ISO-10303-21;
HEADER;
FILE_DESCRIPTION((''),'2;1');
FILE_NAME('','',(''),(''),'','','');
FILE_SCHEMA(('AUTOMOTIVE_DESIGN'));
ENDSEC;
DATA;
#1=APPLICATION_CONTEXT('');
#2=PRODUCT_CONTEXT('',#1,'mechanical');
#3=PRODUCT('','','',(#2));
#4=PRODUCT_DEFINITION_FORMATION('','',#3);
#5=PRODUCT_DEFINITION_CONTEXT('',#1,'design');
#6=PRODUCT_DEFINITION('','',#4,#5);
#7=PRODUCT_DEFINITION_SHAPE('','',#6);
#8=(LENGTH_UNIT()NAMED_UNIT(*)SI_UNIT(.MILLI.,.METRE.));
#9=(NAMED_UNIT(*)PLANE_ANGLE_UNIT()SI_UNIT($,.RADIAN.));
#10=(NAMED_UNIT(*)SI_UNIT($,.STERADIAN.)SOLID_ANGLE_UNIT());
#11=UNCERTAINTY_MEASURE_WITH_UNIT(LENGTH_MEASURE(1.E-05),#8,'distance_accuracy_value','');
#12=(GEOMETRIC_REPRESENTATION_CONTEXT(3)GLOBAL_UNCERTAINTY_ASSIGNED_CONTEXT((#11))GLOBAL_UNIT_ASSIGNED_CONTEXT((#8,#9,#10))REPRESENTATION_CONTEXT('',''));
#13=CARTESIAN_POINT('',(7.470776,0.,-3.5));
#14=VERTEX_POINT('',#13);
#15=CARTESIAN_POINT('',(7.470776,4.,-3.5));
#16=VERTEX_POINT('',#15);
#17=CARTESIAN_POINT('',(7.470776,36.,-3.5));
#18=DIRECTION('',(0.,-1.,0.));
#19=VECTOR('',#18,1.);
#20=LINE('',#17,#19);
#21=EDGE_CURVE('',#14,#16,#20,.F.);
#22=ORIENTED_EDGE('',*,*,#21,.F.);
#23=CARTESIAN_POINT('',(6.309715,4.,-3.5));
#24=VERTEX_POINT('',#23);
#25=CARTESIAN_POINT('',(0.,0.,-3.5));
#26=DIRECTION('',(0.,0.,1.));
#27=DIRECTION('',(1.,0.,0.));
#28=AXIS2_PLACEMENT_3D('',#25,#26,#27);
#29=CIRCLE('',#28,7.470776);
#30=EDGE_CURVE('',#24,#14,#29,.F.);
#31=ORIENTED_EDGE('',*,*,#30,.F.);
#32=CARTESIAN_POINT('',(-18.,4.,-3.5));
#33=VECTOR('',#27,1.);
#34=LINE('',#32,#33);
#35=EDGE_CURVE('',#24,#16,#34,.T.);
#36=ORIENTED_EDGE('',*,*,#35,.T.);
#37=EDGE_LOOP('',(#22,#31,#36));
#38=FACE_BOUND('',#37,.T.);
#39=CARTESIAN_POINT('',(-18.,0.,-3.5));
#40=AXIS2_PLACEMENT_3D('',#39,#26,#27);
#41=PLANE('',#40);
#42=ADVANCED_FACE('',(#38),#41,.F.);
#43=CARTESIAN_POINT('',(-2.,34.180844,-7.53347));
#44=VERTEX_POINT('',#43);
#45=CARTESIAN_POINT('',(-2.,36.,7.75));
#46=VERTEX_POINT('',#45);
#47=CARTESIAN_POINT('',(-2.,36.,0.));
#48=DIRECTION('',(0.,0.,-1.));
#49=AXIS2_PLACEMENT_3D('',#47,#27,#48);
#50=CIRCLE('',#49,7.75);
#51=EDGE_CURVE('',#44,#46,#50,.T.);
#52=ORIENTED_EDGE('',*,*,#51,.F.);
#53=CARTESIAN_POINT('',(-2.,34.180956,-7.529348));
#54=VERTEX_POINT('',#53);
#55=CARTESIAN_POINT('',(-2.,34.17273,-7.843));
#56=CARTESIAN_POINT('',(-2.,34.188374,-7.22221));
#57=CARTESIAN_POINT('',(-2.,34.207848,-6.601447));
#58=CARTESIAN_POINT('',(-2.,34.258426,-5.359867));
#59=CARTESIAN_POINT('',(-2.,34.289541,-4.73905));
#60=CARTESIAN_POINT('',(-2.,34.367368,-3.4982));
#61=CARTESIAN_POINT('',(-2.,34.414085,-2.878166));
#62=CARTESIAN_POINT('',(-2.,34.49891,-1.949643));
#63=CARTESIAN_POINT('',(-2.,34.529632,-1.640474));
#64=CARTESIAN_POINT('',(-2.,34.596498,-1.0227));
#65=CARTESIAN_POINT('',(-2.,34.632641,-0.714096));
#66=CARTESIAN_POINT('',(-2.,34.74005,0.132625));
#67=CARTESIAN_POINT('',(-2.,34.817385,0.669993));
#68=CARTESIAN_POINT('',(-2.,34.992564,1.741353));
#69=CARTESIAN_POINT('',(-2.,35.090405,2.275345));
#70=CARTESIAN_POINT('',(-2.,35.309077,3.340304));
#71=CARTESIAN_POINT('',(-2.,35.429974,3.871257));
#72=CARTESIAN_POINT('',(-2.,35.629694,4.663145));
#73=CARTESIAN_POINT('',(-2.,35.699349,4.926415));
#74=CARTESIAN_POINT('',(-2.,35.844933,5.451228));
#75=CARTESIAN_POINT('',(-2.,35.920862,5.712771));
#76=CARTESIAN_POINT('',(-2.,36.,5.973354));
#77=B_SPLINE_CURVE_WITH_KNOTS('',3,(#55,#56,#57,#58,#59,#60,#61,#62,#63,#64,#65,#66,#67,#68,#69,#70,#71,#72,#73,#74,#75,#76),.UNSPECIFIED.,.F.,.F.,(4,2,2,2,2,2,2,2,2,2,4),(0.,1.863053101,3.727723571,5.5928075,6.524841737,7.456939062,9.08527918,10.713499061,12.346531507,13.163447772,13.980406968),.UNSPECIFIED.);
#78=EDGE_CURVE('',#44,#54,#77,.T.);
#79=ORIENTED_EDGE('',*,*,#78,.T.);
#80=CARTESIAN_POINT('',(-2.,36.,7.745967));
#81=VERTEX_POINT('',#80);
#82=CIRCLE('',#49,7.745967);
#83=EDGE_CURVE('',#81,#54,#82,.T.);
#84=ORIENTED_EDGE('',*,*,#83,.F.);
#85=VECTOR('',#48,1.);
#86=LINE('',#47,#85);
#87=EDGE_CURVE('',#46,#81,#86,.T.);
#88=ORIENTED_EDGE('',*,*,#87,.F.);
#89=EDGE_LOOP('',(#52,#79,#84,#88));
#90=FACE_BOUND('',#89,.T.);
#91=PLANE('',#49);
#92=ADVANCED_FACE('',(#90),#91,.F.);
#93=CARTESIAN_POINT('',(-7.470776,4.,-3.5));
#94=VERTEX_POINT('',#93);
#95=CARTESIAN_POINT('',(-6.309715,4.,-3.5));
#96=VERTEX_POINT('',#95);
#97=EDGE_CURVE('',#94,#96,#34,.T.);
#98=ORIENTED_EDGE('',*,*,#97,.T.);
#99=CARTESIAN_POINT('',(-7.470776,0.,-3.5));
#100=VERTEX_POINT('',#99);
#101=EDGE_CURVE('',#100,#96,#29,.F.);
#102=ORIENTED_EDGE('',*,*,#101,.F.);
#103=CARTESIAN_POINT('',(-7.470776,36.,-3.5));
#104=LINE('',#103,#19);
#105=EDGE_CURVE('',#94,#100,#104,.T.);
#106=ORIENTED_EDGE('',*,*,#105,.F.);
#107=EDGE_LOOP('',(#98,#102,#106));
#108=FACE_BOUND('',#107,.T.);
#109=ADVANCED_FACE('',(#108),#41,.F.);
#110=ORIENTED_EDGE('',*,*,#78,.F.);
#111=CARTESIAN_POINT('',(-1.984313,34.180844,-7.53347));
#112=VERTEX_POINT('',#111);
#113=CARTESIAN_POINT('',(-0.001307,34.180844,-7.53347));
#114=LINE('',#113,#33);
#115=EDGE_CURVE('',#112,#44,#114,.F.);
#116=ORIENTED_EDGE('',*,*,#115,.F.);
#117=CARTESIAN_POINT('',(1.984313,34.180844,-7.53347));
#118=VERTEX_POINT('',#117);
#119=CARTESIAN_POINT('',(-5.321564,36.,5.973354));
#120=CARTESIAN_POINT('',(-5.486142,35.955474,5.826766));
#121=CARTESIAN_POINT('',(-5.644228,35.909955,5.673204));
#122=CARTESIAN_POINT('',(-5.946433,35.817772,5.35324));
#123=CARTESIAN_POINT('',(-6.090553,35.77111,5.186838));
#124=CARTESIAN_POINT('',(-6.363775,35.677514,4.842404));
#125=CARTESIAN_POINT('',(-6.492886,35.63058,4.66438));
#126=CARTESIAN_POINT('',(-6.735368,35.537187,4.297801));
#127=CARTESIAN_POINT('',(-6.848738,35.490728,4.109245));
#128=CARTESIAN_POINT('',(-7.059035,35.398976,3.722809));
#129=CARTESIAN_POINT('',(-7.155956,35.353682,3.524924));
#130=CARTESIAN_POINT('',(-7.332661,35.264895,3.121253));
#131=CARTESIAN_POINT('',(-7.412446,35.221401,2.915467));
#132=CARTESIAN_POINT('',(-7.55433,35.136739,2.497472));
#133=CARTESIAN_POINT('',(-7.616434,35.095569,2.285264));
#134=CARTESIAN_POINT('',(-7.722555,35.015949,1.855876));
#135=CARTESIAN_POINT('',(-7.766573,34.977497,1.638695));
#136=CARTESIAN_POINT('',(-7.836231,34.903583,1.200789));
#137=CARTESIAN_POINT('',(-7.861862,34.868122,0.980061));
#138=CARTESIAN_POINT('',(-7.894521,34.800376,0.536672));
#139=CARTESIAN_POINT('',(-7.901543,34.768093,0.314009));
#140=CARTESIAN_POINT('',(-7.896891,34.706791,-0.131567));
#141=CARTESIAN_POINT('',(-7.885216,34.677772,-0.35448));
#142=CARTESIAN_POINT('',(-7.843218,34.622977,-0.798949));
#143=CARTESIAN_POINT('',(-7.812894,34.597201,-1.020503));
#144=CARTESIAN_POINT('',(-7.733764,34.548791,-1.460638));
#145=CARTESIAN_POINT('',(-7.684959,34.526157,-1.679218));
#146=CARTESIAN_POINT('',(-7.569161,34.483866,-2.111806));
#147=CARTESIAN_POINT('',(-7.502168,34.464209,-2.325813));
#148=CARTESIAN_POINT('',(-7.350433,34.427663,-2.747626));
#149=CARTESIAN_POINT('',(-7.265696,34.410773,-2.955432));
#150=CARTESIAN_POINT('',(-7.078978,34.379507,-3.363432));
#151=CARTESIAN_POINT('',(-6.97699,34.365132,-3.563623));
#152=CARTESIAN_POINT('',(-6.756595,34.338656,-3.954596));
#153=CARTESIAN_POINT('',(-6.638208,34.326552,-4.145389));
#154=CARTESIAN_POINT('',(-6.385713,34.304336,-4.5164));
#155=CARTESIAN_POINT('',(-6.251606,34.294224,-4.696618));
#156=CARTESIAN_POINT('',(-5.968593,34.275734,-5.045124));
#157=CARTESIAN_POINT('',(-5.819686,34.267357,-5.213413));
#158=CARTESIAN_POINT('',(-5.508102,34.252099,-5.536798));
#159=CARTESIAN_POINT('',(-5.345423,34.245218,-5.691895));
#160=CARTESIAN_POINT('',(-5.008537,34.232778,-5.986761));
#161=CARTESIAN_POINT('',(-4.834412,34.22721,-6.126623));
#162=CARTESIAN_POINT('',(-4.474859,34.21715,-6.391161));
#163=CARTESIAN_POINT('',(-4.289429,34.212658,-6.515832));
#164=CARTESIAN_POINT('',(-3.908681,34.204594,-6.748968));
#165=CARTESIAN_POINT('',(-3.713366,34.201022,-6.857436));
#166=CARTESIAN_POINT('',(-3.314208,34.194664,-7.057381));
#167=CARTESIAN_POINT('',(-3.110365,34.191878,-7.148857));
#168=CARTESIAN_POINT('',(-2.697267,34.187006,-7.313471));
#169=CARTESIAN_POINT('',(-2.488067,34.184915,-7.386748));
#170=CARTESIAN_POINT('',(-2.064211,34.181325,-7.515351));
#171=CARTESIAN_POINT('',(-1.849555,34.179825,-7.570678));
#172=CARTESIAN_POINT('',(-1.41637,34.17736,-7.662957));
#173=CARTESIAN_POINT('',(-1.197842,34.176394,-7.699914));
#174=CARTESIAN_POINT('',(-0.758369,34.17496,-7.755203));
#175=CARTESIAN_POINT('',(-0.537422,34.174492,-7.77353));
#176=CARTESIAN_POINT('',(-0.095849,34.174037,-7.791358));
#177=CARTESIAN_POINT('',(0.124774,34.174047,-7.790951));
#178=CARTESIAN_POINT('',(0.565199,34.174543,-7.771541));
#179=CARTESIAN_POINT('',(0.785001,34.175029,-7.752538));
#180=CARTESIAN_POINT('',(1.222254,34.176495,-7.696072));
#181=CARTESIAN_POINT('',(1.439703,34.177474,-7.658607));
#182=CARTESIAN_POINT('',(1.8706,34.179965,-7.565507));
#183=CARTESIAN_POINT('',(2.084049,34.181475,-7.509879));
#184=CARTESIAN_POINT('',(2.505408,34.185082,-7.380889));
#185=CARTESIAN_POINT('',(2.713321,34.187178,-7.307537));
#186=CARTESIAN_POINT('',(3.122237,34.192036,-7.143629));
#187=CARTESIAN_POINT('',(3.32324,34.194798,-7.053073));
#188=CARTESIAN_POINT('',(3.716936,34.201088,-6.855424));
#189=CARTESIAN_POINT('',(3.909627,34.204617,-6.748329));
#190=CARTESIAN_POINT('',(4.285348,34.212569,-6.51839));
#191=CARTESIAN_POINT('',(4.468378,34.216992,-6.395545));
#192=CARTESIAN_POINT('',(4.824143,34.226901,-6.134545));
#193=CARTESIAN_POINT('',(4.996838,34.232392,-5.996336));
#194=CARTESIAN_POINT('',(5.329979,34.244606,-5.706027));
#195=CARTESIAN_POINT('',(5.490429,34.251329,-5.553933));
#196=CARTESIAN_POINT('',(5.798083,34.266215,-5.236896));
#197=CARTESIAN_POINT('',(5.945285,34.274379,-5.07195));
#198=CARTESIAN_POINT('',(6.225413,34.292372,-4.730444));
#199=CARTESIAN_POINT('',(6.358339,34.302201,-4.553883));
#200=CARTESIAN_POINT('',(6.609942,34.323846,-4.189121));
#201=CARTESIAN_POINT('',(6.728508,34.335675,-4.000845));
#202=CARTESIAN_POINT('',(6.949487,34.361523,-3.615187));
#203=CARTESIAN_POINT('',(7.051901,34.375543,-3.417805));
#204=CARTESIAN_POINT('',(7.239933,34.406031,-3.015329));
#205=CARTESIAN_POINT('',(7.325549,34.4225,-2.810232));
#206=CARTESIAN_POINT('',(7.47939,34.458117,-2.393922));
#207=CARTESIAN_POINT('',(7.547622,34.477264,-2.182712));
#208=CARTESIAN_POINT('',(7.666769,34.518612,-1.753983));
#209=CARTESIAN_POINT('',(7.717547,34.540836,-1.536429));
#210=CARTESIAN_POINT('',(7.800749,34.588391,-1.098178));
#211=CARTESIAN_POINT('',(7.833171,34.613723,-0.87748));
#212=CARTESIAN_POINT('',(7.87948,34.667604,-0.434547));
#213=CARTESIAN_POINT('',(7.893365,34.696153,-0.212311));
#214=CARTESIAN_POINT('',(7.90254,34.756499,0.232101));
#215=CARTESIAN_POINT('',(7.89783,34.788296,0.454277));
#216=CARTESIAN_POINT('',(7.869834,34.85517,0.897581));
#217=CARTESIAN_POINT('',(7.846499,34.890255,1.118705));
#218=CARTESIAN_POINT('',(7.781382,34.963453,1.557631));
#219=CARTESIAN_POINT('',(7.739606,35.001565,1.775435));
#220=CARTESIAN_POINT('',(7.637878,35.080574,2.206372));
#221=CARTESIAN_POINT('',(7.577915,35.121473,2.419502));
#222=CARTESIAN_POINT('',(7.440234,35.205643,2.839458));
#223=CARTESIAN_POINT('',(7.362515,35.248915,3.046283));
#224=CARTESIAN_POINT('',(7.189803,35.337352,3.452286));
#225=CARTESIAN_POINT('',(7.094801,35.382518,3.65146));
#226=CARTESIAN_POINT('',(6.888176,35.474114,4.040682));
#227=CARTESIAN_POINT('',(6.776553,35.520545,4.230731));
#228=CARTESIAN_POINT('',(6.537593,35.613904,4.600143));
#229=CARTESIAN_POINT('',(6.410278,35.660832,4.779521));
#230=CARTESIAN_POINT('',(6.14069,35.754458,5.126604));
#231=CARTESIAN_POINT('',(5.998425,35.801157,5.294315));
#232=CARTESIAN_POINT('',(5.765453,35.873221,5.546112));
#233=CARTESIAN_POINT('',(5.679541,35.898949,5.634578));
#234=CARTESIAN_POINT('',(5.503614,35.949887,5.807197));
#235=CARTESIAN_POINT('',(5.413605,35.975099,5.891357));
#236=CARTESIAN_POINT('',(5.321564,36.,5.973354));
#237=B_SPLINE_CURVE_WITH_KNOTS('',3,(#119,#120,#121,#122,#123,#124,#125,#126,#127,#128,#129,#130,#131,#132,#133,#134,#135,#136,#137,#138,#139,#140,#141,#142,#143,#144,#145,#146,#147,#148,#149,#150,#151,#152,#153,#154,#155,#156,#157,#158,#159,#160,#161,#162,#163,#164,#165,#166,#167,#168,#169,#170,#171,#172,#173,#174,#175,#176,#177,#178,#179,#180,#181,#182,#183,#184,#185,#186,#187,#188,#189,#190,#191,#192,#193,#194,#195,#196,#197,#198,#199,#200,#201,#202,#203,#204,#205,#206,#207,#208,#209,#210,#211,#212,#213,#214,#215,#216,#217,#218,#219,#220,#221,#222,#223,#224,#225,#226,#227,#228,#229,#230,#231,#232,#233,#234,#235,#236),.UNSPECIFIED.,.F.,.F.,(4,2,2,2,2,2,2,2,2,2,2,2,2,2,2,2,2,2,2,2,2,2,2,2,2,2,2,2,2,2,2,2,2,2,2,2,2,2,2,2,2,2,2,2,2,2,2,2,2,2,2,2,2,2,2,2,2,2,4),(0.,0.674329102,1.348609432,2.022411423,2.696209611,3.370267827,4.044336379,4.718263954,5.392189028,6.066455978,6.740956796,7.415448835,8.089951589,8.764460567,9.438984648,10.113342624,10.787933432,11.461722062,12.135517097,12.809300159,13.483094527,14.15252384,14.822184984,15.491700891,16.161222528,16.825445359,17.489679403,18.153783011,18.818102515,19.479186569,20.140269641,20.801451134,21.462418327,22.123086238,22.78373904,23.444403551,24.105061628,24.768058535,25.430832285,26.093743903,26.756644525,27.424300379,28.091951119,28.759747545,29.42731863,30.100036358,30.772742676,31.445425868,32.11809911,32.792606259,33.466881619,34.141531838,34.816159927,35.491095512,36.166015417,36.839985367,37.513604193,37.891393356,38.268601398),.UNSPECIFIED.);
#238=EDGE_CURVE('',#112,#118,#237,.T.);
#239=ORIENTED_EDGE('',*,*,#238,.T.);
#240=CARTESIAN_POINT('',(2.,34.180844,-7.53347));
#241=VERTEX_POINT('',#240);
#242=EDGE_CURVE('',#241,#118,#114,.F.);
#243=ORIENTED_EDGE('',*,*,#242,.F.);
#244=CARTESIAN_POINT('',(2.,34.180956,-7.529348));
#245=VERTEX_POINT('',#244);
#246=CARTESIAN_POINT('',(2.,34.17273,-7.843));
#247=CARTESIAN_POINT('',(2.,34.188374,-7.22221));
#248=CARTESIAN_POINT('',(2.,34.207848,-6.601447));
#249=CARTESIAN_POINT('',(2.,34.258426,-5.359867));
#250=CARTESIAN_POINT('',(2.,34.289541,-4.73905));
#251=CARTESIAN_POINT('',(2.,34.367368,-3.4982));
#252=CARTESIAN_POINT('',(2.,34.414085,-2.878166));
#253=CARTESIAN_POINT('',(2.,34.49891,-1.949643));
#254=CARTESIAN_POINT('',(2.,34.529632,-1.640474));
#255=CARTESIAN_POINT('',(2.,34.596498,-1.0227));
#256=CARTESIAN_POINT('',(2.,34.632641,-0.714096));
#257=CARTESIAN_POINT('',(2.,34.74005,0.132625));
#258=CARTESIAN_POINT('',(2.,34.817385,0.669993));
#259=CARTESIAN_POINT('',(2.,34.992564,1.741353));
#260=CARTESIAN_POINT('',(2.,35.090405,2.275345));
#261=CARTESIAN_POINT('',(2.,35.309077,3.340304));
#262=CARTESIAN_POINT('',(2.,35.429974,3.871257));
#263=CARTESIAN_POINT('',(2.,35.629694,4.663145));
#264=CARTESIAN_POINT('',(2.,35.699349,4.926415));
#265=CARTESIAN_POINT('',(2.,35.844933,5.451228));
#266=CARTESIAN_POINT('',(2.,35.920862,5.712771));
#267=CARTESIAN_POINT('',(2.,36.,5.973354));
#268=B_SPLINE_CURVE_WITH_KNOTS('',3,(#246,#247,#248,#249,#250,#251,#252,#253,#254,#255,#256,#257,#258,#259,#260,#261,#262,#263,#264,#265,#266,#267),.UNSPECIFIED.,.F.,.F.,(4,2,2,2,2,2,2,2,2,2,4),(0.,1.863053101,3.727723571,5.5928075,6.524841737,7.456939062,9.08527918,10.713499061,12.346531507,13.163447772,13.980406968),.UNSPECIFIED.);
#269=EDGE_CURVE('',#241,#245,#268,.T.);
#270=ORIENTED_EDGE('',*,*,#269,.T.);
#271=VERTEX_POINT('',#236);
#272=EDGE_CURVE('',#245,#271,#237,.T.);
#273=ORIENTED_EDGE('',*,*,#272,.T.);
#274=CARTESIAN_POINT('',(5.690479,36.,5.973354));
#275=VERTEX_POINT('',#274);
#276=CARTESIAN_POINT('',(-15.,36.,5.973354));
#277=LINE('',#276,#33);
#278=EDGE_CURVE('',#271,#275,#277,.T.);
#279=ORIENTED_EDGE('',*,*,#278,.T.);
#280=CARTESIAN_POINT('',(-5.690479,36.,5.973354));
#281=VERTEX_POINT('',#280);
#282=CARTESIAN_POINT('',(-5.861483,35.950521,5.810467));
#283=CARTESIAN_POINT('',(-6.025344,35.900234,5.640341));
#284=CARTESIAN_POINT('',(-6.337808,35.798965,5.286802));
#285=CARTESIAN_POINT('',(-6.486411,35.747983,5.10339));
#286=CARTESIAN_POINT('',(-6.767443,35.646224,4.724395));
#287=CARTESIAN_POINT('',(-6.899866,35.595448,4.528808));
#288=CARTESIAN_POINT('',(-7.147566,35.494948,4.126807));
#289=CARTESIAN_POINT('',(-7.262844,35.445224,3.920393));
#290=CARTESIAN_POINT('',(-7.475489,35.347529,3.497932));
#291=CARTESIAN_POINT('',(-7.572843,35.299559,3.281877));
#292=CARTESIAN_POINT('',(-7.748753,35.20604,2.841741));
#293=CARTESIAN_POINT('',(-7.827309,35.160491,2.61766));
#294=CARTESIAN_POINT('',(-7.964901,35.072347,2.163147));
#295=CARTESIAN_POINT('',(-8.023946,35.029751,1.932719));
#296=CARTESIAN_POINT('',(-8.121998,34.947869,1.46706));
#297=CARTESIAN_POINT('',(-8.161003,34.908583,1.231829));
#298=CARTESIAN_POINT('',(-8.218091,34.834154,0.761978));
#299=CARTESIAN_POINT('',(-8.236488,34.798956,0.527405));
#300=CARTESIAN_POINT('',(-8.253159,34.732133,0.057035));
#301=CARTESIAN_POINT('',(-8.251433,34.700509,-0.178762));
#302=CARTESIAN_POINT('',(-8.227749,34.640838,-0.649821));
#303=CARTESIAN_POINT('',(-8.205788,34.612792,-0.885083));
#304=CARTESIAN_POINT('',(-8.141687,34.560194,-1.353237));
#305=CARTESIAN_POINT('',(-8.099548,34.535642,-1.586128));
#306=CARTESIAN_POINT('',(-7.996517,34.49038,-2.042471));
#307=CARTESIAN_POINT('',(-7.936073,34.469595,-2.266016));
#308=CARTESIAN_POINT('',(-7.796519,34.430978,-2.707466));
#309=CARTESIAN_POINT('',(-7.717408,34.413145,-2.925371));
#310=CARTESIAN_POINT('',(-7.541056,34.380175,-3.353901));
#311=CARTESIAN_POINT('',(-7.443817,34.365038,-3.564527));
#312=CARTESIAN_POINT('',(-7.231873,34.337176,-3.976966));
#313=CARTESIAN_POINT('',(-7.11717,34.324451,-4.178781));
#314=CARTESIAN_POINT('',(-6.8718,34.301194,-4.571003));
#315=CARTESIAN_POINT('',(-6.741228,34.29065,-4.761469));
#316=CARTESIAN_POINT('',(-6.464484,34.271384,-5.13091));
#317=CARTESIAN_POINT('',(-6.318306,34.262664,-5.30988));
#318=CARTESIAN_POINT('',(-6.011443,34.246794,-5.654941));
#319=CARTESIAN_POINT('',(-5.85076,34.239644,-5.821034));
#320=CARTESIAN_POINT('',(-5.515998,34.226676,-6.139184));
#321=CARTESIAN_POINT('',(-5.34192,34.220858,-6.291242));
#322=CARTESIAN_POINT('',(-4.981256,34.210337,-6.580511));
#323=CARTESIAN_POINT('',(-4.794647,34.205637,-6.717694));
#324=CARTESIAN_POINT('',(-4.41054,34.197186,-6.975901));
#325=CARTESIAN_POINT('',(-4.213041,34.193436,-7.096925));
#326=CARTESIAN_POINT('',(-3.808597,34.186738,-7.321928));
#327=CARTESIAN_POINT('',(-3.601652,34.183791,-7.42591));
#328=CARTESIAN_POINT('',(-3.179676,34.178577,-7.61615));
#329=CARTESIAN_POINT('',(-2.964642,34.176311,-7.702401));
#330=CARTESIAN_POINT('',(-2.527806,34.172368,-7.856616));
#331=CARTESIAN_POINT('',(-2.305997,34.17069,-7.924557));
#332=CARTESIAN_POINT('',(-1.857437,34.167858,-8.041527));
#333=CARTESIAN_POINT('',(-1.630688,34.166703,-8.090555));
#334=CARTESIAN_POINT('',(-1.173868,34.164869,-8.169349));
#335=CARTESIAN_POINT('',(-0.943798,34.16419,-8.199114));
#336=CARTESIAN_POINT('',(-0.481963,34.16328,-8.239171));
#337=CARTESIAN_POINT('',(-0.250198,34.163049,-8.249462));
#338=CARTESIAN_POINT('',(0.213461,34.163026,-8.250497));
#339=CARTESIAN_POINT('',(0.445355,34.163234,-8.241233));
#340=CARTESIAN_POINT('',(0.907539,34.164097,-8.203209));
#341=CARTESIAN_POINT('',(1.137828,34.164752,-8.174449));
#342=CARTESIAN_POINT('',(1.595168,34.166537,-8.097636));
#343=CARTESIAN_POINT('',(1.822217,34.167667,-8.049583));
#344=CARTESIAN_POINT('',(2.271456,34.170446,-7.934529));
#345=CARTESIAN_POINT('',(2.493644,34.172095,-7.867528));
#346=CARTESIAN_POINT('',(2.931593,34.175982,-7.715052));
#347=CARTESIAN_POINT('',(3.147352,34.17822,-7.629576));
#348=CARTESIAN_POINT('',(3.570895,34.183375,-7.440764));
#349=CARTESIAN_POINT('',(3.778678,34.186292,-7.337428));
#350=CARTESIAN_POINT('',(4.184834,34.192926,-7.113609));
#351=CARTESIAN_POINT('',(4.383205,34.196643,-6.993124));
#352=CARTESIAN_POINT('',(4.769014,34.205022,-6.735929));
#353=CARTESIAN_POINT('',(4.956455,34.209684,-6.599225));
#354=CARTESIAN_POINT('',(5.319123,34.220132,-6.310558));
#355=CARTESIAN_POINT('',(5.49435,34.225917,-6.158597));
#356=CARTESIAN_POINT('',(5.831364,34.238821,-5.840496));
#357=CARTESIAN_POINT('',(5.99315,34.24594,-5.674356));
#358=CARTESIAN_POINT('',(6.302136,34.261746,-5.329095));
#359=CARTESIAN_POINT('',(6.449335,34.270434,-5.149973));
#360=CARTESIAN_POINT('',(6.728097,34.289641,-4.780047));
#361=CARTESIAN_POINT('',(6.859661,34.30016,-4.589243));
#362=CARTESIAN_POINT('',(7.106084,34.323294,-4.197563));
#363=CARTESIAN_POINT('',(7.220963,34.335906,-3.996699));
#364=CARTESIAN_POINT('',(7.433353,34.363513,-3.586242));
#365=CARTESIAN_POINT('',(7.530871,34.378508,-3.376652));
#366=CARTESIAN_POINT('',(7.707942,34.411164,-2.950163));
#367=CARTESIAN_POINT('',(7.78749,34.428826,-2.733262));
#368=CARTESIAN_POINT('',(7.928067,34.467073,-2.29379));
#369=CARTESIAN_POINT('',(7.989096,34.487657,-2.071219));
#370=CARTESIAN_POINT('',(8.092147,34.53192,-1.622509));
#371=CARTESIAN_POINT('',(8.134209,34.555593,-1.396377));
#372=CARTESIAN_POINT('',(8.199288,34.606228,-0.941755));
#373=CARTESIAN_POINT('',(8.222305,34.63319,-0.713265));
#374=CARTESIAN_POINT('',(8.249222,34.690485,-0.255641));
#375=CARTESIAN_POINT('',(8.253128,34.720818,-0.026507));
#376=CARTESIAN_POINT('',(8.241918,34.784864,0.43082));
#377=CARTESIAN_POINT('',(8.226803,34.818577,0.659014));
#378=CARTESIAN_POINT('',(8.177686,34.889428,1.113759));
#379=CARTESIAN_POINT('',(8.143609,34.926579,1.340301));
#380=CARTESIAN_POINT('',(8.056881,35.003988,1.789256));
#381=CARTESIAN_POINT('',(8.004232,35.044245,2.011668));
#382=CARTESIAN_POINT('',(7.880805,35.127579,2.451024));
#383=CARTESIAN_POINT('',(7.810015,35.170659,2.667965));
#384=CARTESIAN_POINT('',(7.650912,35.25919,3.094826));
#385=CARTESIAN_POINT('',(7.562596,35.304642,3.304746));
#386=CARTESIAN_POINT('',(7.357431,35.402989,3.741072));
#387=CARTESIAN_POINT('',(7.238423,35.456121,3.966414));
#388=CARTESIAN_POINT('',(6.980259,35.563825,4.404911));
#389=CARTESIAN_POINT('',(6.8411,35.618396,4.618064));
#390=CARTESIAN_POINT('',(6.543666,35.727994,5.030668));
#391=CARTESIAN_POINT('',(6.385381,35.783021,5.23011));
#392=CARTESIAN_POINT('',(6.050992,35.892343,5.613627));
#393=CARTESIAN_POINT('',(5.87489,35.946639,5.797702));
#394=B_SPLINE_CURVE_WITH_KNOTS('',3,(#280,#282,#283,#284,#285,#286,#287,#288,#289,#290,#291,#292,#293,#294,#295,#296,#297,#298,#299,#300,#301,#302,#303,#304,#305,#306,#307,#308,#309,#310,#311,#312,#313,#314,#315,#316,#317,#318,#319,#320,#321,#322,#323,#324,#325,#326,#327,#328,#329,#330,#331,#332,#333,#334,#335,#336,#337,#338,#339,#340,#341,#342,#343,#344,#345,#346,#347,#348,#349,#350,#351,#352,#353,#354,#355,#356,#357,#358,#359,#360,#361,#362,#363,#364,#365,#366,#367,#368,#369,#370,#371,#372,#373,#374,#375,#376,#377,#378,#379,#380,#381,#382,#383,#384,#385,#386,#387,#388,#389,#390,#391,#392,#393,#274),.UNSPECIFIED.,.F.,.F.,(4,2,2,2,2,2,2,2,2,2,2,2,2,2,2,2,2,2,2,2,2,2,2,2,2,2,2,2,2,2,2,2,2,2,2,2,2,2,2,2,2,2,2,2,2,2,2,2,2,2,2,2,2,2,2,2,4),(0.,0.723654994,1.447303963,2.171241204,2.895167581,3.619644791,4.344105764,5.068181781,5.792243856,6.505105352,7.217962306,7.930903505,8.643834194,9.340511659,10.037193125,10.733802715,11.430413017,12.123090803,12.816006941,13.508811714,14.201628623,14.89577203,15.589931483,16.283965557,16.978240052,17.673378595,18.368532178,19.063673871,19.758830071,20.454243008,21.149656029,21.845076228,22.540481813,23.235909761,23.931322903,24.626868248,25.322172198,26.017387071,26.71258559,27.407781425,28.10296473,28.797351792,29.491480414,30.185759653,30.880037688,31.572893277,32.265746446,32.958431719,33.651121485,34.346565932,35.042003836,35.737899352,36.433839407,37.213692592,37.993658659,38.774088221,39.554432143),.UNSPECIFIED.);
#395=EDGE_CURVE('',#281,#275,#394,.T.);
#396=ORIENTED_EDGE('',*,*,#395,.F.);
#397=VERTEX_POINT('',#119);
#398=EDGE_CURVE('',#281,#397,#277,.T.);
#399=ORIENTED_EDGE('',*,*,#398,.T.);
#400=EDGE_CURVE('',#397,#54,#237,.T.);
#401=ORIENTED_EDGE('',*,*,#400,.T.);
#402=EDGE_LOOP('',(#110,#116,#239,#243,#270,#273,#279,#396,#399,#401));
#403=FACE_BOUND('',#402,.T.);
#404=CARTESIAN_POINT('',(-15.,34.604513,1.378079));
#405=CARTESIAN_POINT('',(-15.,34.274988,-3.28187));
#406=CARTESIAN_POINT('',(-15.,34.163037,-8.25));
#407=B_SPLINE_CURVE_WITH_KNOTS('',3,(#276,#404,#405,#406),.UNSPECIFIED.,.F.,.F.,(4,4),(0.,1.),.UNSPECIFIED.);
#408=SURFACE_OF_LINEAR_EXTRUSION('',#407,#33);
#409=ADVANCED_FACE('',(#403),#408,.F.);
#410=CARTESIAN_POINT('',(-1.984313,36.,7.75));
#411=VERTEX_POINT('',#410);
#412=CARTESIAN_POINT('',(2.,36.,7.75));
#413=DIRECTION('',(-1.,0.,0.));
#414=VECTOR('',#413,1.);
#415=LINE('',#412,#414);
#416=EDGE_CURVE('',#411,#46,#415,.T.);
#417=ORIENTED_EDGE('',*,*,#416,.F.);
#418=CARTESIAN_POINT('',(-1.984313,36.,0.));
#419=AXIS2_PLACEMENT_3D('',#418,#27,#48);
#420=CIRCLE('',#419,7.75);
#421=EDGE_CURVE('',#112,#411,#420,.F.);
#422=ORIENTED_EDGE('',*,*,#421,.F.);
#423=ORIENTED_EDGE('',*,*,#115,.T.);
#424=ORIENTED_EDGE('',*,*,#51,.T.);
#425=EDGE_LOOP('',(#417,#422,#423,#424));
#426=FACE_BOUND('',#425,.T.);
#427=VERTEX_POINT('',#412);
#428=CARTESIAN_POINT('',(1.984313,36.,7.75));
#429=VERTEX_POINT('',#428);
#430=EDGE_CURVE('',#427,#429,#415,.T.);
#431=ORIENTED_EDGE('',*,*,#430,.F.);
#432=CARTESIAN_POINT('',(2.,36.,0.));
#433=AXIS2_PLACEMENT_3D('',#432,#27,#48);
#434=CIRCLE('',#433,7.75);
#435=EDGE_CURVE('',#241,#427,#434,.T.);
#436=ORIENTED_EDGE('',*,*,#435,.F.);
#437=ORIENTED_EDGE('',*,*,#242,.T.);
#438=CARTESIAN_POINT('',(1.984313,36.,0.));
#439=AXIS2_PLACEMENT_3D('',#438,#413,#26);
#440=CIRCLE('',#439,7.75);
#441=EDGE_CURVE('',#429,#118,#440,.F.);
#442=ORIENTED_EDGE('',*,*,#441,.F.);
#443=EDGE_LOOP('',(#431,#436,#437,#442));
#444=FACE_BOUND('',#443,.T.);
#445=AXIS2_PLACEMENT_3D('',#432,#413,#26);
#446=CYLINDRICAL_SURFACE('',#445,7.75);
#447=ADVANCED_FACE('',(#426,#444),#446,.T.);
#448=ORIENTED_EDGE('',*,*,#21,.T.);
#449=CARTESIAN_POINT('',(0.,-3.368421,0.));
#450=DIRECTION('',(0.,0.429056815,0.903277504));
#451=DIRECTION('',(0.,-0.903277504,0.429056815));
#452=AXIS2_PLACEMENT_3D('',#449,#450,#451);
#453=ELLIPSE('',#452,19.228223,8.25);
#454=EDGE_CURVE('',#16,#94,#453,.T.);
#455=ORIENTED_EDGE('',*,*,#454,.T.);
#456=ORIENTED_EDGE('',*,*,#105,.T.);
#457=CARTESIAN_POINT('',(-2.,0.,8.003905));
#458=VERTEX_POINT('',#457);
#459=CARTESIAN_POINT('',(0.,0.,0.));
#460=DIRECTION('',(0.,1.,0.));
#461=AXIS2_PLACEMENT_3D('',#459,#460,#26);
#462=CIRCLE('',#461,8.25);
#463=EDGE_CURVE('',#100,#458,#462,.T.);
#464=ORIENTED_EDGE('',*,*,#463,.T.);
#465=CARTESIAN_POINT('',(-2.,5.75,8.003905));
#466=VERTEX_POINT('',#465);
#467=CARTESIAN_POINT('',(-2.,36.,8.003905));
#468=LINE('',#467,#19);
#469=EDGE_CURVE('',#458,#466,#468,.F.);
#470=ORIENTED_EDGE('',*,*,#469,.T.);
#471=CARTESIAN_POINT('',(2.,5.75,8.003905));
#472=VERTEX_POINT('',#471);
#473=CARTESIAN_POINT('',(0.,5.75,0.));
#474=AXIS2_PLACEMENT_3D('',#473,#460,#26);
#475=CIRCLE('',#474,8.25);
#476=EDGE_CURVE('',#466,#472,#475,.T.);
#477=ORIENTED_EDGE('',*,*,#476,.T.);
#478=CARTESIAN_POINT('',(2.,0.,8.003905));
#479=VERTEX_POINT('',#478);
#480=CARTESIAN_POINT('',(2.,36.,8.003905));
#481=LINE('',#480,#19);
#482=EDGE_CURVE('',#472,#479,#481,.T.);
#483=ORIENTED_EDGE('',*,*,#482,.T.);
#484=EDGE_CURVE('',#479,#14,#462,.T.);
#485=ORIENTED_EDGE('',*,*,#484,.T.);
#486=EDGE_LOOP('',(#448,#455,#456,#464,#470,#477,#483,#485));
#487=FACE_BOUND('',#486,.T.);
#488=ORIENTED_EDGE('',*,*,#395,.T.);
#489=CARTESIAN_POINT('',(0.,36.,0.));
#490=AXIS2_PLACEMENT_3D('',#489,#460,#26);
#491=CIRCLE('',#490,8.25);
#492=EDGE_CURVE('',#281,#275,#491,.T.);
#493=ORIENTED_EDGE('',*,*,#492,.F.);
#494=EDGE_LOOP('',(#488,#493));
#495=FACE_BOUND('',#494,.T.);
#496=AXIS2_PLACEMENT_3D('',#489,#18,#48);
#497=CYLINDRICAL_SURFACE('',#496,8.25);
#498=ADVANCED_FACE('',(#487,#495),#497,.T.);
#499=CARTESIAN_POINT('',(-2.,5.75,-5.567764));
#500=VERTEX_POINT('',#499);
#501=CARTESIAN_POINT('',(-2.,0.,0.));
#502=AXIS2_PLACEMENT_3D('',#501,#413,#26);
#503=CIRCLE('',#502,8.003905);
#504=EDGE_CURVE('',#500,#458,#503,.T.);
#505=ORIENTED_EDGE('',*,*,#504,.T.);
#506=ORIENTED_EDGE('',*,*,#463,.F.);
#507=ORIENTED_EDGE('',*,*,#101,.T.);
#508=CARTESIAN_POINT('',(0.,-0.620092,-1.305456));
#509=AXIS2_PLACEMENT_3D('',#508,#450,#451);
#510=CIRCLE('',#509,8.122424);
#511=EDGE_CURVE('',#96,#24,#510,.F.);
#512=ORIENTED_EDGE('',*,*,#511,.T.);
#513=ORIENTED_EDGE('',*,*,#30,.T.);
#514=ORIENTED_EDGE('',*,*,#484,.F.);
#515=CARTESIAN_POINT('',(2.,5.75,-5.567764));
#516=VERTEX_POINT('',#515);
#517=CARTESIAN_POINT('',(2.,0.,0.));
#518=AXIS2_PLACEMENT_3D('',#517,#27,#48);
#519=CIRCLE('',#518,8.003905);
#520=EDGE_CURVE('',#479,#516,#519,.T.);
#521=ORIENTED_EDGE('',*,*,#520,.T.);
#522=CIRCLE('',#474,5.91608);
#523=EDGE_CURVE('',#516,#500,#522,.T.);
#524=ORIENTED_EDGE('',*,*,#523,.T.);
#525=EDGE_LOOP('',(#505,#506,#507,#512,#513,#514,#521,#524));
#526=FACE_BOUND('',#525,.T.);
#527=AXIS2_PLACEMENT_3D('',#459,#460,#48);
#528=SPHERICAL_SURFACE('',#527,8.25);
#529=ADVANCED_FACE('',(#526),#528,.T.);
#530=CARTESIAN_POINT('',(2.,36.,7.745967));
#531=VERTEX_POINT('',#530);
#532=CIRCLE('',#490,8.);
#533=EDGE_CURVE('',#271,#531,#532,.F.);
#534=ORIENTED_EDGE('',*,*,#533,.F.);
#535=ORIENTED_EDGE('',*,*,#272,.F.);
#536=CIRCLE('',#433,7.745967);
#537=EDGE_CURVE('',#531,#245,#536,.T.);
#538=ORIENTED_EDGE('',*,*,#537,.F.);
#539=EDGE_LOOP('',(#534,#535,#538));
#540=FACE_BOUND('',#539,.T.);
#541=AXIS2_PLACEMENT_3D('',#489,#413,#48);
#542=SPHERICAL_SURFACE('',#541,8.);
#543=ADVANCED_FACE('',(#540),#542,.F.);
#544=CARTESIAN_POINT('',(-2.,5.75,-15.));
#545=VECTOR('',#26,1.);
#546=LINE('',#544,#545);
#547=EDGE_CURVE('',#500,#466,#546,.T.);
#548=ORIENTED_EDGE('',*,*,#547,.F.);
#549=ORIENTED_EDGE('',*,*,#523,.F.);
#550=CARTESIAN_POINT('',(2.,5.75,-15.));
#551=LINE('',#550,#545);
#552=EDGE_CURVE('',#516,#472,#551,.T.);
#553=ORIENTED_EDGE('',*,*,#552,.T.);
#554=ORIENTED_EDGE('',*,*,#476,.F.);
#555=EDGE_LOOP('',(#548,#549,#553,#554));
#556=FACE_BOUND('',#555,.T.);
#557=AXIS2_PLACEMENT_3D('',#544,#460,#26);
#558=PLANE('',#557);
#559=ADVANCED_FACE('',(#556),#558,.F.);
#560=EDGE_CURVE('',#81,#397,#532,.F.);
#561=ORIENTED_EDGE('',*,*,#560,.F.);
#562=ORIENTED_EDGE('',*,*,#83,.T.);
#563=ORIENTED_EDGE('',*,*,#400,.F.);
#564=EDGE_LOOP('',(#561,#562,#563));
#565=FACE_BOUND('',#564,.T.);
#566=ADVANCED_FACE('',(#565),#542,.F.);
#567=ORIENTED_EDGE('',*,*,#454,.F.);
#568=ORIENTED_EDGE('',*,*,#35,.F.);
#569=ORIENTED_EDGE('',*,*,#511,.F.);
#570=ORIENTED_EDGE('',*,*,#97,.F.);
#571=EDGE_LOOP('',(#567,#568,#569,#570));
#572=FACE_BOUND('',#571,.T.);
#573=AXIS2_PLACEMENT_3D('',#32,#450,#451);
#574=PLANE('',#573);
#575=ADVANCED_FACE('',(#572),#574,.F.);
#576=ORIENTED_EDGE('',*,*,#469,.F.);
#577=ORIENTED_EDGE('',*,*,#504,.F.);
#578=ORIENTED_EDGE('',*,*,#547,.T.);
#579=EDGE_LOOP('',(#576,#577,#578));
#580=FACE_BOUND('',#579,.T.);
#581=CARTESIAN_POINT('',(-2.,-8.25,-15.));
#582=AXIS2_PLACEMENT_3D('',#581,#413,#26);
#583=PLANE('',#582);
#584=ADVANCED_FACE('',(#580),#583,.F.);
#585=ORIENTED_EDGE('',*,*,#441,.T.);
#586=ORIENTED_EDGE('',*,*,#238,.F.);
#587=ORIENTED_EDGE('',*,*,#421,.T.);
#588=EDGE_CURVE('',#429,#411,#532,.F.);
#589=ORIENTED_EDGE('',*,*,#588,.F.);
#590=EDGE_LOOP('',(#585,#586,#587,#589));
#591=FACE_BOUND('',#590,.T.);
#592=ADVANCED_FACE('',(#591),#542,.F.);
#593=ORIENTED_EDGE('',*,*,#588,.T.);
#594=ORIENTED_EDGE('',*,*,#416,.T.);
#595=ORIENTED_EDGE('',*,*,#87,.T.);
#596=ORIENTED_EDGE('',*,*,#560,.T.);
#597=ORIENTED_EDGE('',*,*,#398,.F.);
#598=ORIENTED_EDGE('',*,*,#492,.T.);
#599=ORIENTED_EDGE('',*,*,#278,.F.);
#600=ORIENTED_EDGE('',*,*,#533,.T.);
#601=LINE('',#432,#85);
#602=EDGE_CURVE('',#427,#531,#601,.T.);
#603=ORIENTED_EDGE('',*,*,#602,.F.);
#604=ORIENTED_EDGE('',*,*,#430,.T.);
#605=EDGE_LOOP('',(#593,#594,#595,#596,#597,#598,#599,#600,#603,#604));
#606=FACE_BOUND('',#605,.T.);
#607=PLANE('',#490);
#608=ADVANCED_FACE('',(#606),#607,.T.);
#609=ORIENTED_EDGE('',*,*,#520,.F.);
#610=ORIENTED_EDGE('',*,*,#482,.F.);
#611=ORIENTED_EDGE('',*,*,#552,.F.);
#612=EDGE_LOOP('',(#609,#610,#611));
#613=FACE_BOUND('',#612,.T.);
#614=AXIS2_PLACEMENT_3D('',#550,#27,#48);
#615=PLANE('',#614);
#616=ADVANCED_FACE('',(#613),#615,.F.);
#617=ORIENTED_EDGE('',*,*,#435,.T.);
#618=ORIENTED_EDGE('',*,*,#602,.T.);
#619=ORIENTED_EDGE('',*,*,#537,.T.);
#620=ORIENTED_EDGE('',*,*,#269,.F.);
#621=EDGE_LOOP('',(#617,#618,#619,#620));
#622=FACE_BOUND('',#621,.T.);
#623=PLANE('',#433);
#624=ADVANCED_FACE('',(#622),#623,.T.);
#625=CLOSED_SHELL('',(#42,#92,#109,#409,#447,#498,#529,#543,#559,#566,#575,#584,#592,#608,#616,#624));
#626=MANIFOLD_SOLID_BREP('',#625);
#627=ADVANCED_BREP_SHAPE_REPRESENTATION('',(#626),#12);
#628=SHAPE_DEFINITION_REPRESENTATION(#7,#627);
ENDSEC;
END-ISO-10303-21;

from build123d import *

# Parameters (mm, degrees)
CROQUIS1_R              = 8.25
SALIENTE_EXTRUIR1_DEPTH = 36
CORTAR_EXTRUIR5_DEPTH   = 18
CORTAR_EXTRUIR7_DEPTH   = 15
CROQUIS23_R             = 7.75
SALIENTE_EXTRUIR4_DEPTH = 2
CROQUIS25_W             = 4
CROQUIS25_H             = 14
CORTAR_EXTRUIR8_DEPTH   = 15


with BuildPart() as part:
    # Croquis1 → Saliente-Extruir1 (new body)
    with BuildSketch(Plane(origin=(0, 0, 0), x_dir=(1, 0, 0), z_dir=(0, 1, 0))):
        Circle(CROQUIS1_R)
    extrude(amount=SALIENTE_EXTRUIR1_DEPTH)

    # Croquis3 → Cortar-Extruir5 (cut, symmetric)
    with BuildSketch(Plane(origin=(0, 0, 0), x_dir=(0, 0, -1), z_dir=(1, 0, 0))):
        Polygon((8.25, 0), (8.25, 14), (3.5, 4), (3.5, 0), align=None)
    extrude(amount=CORTAR_EXTRUIR5_DEPTH, both=True, mode=Mode.SUBTRACT)

    # Croquis18 → Revolución1 (revolve)
    with BuildSketch(Plane(origin=(0, 0, 0), x_dir=(0, 0, -1), z_dir=(1, 0, 0))):
        with BuildLine():
            Line((0, 8.25), (0, -8.25))
            ThreePointArc((0, -8.25), (8.25, 0), (0, 8.25))
        make_face()
    revolve(axis=Axis((0, 8.25, 0), (0, -1, 0)))

    # Croquis20 → Cortar-Revolución1 (revolve, cut)
    with BuildSketch(Plane(origin=(0, 36, 0), x_dir=(1, 0, 0), z_dir=(0, 1, 0))):
        with BuildLine():
            Line((-8, 0), (8, 0))
            ThreePointArc((8, 0), (0, 8), (-8, 0))
        make_face()
    revolve(axis=Axis((-8, 36, 0), (1, 0, 0)), mode=Mode.SUBTRACT)

    # Croquis24 → Cortar-Extruir7 (cut, symmetric)
    with BuildSketch(Plane(origin=(0, 0, 0), x_dir=(0, 0, -1), z_dir=(1, 0, 0))):
        with BuildLine():
            Line((-5.973353696, 36), (8.25, 36))
            Line((8.25, 36), (8.25, 34.163037065))
            add(Edge.make_bspline(
                [(-5.973353696, 36), (-1.37807863, 34.604512728), (3.281869782, 34.274988011), (8.25, 34.163037065)],
                knots=[0, 0, 0, 0, 1, 1, 1, 1], degree=3))
        make_face()
    extrude(amount=CORTAR_EXTRUIR7_DEPTH, both=True, mode=Mode.SUBTRACT)

    # Croquis23 → Saliente-Extruir4 (add, symmetric)
    with BuildSketch(Plane(origin=(0, 0, 0), x_dir=(0, 0, -1), z_dir=(1, 0, 0))):
        with Locations((0, 36)):
            Circle(CROQUIS23_R)
    extrude(amount=SALIENTE_EXTRUIR4_DEPTH, both=True)

    # Croquis25 → Cortar-Extruir8 (cut, symmetric)
    with BuildSketch(Plane.XY):
        with Locations((0, -1.25)):
            Rectangle(CROQUIS25_W, CROQUIS25_H)
    extrude(amount=CORTAR_EXTRUIR8_DEPTH, both=True, mode=Mode.SUBTRACT)


solid = part.part
